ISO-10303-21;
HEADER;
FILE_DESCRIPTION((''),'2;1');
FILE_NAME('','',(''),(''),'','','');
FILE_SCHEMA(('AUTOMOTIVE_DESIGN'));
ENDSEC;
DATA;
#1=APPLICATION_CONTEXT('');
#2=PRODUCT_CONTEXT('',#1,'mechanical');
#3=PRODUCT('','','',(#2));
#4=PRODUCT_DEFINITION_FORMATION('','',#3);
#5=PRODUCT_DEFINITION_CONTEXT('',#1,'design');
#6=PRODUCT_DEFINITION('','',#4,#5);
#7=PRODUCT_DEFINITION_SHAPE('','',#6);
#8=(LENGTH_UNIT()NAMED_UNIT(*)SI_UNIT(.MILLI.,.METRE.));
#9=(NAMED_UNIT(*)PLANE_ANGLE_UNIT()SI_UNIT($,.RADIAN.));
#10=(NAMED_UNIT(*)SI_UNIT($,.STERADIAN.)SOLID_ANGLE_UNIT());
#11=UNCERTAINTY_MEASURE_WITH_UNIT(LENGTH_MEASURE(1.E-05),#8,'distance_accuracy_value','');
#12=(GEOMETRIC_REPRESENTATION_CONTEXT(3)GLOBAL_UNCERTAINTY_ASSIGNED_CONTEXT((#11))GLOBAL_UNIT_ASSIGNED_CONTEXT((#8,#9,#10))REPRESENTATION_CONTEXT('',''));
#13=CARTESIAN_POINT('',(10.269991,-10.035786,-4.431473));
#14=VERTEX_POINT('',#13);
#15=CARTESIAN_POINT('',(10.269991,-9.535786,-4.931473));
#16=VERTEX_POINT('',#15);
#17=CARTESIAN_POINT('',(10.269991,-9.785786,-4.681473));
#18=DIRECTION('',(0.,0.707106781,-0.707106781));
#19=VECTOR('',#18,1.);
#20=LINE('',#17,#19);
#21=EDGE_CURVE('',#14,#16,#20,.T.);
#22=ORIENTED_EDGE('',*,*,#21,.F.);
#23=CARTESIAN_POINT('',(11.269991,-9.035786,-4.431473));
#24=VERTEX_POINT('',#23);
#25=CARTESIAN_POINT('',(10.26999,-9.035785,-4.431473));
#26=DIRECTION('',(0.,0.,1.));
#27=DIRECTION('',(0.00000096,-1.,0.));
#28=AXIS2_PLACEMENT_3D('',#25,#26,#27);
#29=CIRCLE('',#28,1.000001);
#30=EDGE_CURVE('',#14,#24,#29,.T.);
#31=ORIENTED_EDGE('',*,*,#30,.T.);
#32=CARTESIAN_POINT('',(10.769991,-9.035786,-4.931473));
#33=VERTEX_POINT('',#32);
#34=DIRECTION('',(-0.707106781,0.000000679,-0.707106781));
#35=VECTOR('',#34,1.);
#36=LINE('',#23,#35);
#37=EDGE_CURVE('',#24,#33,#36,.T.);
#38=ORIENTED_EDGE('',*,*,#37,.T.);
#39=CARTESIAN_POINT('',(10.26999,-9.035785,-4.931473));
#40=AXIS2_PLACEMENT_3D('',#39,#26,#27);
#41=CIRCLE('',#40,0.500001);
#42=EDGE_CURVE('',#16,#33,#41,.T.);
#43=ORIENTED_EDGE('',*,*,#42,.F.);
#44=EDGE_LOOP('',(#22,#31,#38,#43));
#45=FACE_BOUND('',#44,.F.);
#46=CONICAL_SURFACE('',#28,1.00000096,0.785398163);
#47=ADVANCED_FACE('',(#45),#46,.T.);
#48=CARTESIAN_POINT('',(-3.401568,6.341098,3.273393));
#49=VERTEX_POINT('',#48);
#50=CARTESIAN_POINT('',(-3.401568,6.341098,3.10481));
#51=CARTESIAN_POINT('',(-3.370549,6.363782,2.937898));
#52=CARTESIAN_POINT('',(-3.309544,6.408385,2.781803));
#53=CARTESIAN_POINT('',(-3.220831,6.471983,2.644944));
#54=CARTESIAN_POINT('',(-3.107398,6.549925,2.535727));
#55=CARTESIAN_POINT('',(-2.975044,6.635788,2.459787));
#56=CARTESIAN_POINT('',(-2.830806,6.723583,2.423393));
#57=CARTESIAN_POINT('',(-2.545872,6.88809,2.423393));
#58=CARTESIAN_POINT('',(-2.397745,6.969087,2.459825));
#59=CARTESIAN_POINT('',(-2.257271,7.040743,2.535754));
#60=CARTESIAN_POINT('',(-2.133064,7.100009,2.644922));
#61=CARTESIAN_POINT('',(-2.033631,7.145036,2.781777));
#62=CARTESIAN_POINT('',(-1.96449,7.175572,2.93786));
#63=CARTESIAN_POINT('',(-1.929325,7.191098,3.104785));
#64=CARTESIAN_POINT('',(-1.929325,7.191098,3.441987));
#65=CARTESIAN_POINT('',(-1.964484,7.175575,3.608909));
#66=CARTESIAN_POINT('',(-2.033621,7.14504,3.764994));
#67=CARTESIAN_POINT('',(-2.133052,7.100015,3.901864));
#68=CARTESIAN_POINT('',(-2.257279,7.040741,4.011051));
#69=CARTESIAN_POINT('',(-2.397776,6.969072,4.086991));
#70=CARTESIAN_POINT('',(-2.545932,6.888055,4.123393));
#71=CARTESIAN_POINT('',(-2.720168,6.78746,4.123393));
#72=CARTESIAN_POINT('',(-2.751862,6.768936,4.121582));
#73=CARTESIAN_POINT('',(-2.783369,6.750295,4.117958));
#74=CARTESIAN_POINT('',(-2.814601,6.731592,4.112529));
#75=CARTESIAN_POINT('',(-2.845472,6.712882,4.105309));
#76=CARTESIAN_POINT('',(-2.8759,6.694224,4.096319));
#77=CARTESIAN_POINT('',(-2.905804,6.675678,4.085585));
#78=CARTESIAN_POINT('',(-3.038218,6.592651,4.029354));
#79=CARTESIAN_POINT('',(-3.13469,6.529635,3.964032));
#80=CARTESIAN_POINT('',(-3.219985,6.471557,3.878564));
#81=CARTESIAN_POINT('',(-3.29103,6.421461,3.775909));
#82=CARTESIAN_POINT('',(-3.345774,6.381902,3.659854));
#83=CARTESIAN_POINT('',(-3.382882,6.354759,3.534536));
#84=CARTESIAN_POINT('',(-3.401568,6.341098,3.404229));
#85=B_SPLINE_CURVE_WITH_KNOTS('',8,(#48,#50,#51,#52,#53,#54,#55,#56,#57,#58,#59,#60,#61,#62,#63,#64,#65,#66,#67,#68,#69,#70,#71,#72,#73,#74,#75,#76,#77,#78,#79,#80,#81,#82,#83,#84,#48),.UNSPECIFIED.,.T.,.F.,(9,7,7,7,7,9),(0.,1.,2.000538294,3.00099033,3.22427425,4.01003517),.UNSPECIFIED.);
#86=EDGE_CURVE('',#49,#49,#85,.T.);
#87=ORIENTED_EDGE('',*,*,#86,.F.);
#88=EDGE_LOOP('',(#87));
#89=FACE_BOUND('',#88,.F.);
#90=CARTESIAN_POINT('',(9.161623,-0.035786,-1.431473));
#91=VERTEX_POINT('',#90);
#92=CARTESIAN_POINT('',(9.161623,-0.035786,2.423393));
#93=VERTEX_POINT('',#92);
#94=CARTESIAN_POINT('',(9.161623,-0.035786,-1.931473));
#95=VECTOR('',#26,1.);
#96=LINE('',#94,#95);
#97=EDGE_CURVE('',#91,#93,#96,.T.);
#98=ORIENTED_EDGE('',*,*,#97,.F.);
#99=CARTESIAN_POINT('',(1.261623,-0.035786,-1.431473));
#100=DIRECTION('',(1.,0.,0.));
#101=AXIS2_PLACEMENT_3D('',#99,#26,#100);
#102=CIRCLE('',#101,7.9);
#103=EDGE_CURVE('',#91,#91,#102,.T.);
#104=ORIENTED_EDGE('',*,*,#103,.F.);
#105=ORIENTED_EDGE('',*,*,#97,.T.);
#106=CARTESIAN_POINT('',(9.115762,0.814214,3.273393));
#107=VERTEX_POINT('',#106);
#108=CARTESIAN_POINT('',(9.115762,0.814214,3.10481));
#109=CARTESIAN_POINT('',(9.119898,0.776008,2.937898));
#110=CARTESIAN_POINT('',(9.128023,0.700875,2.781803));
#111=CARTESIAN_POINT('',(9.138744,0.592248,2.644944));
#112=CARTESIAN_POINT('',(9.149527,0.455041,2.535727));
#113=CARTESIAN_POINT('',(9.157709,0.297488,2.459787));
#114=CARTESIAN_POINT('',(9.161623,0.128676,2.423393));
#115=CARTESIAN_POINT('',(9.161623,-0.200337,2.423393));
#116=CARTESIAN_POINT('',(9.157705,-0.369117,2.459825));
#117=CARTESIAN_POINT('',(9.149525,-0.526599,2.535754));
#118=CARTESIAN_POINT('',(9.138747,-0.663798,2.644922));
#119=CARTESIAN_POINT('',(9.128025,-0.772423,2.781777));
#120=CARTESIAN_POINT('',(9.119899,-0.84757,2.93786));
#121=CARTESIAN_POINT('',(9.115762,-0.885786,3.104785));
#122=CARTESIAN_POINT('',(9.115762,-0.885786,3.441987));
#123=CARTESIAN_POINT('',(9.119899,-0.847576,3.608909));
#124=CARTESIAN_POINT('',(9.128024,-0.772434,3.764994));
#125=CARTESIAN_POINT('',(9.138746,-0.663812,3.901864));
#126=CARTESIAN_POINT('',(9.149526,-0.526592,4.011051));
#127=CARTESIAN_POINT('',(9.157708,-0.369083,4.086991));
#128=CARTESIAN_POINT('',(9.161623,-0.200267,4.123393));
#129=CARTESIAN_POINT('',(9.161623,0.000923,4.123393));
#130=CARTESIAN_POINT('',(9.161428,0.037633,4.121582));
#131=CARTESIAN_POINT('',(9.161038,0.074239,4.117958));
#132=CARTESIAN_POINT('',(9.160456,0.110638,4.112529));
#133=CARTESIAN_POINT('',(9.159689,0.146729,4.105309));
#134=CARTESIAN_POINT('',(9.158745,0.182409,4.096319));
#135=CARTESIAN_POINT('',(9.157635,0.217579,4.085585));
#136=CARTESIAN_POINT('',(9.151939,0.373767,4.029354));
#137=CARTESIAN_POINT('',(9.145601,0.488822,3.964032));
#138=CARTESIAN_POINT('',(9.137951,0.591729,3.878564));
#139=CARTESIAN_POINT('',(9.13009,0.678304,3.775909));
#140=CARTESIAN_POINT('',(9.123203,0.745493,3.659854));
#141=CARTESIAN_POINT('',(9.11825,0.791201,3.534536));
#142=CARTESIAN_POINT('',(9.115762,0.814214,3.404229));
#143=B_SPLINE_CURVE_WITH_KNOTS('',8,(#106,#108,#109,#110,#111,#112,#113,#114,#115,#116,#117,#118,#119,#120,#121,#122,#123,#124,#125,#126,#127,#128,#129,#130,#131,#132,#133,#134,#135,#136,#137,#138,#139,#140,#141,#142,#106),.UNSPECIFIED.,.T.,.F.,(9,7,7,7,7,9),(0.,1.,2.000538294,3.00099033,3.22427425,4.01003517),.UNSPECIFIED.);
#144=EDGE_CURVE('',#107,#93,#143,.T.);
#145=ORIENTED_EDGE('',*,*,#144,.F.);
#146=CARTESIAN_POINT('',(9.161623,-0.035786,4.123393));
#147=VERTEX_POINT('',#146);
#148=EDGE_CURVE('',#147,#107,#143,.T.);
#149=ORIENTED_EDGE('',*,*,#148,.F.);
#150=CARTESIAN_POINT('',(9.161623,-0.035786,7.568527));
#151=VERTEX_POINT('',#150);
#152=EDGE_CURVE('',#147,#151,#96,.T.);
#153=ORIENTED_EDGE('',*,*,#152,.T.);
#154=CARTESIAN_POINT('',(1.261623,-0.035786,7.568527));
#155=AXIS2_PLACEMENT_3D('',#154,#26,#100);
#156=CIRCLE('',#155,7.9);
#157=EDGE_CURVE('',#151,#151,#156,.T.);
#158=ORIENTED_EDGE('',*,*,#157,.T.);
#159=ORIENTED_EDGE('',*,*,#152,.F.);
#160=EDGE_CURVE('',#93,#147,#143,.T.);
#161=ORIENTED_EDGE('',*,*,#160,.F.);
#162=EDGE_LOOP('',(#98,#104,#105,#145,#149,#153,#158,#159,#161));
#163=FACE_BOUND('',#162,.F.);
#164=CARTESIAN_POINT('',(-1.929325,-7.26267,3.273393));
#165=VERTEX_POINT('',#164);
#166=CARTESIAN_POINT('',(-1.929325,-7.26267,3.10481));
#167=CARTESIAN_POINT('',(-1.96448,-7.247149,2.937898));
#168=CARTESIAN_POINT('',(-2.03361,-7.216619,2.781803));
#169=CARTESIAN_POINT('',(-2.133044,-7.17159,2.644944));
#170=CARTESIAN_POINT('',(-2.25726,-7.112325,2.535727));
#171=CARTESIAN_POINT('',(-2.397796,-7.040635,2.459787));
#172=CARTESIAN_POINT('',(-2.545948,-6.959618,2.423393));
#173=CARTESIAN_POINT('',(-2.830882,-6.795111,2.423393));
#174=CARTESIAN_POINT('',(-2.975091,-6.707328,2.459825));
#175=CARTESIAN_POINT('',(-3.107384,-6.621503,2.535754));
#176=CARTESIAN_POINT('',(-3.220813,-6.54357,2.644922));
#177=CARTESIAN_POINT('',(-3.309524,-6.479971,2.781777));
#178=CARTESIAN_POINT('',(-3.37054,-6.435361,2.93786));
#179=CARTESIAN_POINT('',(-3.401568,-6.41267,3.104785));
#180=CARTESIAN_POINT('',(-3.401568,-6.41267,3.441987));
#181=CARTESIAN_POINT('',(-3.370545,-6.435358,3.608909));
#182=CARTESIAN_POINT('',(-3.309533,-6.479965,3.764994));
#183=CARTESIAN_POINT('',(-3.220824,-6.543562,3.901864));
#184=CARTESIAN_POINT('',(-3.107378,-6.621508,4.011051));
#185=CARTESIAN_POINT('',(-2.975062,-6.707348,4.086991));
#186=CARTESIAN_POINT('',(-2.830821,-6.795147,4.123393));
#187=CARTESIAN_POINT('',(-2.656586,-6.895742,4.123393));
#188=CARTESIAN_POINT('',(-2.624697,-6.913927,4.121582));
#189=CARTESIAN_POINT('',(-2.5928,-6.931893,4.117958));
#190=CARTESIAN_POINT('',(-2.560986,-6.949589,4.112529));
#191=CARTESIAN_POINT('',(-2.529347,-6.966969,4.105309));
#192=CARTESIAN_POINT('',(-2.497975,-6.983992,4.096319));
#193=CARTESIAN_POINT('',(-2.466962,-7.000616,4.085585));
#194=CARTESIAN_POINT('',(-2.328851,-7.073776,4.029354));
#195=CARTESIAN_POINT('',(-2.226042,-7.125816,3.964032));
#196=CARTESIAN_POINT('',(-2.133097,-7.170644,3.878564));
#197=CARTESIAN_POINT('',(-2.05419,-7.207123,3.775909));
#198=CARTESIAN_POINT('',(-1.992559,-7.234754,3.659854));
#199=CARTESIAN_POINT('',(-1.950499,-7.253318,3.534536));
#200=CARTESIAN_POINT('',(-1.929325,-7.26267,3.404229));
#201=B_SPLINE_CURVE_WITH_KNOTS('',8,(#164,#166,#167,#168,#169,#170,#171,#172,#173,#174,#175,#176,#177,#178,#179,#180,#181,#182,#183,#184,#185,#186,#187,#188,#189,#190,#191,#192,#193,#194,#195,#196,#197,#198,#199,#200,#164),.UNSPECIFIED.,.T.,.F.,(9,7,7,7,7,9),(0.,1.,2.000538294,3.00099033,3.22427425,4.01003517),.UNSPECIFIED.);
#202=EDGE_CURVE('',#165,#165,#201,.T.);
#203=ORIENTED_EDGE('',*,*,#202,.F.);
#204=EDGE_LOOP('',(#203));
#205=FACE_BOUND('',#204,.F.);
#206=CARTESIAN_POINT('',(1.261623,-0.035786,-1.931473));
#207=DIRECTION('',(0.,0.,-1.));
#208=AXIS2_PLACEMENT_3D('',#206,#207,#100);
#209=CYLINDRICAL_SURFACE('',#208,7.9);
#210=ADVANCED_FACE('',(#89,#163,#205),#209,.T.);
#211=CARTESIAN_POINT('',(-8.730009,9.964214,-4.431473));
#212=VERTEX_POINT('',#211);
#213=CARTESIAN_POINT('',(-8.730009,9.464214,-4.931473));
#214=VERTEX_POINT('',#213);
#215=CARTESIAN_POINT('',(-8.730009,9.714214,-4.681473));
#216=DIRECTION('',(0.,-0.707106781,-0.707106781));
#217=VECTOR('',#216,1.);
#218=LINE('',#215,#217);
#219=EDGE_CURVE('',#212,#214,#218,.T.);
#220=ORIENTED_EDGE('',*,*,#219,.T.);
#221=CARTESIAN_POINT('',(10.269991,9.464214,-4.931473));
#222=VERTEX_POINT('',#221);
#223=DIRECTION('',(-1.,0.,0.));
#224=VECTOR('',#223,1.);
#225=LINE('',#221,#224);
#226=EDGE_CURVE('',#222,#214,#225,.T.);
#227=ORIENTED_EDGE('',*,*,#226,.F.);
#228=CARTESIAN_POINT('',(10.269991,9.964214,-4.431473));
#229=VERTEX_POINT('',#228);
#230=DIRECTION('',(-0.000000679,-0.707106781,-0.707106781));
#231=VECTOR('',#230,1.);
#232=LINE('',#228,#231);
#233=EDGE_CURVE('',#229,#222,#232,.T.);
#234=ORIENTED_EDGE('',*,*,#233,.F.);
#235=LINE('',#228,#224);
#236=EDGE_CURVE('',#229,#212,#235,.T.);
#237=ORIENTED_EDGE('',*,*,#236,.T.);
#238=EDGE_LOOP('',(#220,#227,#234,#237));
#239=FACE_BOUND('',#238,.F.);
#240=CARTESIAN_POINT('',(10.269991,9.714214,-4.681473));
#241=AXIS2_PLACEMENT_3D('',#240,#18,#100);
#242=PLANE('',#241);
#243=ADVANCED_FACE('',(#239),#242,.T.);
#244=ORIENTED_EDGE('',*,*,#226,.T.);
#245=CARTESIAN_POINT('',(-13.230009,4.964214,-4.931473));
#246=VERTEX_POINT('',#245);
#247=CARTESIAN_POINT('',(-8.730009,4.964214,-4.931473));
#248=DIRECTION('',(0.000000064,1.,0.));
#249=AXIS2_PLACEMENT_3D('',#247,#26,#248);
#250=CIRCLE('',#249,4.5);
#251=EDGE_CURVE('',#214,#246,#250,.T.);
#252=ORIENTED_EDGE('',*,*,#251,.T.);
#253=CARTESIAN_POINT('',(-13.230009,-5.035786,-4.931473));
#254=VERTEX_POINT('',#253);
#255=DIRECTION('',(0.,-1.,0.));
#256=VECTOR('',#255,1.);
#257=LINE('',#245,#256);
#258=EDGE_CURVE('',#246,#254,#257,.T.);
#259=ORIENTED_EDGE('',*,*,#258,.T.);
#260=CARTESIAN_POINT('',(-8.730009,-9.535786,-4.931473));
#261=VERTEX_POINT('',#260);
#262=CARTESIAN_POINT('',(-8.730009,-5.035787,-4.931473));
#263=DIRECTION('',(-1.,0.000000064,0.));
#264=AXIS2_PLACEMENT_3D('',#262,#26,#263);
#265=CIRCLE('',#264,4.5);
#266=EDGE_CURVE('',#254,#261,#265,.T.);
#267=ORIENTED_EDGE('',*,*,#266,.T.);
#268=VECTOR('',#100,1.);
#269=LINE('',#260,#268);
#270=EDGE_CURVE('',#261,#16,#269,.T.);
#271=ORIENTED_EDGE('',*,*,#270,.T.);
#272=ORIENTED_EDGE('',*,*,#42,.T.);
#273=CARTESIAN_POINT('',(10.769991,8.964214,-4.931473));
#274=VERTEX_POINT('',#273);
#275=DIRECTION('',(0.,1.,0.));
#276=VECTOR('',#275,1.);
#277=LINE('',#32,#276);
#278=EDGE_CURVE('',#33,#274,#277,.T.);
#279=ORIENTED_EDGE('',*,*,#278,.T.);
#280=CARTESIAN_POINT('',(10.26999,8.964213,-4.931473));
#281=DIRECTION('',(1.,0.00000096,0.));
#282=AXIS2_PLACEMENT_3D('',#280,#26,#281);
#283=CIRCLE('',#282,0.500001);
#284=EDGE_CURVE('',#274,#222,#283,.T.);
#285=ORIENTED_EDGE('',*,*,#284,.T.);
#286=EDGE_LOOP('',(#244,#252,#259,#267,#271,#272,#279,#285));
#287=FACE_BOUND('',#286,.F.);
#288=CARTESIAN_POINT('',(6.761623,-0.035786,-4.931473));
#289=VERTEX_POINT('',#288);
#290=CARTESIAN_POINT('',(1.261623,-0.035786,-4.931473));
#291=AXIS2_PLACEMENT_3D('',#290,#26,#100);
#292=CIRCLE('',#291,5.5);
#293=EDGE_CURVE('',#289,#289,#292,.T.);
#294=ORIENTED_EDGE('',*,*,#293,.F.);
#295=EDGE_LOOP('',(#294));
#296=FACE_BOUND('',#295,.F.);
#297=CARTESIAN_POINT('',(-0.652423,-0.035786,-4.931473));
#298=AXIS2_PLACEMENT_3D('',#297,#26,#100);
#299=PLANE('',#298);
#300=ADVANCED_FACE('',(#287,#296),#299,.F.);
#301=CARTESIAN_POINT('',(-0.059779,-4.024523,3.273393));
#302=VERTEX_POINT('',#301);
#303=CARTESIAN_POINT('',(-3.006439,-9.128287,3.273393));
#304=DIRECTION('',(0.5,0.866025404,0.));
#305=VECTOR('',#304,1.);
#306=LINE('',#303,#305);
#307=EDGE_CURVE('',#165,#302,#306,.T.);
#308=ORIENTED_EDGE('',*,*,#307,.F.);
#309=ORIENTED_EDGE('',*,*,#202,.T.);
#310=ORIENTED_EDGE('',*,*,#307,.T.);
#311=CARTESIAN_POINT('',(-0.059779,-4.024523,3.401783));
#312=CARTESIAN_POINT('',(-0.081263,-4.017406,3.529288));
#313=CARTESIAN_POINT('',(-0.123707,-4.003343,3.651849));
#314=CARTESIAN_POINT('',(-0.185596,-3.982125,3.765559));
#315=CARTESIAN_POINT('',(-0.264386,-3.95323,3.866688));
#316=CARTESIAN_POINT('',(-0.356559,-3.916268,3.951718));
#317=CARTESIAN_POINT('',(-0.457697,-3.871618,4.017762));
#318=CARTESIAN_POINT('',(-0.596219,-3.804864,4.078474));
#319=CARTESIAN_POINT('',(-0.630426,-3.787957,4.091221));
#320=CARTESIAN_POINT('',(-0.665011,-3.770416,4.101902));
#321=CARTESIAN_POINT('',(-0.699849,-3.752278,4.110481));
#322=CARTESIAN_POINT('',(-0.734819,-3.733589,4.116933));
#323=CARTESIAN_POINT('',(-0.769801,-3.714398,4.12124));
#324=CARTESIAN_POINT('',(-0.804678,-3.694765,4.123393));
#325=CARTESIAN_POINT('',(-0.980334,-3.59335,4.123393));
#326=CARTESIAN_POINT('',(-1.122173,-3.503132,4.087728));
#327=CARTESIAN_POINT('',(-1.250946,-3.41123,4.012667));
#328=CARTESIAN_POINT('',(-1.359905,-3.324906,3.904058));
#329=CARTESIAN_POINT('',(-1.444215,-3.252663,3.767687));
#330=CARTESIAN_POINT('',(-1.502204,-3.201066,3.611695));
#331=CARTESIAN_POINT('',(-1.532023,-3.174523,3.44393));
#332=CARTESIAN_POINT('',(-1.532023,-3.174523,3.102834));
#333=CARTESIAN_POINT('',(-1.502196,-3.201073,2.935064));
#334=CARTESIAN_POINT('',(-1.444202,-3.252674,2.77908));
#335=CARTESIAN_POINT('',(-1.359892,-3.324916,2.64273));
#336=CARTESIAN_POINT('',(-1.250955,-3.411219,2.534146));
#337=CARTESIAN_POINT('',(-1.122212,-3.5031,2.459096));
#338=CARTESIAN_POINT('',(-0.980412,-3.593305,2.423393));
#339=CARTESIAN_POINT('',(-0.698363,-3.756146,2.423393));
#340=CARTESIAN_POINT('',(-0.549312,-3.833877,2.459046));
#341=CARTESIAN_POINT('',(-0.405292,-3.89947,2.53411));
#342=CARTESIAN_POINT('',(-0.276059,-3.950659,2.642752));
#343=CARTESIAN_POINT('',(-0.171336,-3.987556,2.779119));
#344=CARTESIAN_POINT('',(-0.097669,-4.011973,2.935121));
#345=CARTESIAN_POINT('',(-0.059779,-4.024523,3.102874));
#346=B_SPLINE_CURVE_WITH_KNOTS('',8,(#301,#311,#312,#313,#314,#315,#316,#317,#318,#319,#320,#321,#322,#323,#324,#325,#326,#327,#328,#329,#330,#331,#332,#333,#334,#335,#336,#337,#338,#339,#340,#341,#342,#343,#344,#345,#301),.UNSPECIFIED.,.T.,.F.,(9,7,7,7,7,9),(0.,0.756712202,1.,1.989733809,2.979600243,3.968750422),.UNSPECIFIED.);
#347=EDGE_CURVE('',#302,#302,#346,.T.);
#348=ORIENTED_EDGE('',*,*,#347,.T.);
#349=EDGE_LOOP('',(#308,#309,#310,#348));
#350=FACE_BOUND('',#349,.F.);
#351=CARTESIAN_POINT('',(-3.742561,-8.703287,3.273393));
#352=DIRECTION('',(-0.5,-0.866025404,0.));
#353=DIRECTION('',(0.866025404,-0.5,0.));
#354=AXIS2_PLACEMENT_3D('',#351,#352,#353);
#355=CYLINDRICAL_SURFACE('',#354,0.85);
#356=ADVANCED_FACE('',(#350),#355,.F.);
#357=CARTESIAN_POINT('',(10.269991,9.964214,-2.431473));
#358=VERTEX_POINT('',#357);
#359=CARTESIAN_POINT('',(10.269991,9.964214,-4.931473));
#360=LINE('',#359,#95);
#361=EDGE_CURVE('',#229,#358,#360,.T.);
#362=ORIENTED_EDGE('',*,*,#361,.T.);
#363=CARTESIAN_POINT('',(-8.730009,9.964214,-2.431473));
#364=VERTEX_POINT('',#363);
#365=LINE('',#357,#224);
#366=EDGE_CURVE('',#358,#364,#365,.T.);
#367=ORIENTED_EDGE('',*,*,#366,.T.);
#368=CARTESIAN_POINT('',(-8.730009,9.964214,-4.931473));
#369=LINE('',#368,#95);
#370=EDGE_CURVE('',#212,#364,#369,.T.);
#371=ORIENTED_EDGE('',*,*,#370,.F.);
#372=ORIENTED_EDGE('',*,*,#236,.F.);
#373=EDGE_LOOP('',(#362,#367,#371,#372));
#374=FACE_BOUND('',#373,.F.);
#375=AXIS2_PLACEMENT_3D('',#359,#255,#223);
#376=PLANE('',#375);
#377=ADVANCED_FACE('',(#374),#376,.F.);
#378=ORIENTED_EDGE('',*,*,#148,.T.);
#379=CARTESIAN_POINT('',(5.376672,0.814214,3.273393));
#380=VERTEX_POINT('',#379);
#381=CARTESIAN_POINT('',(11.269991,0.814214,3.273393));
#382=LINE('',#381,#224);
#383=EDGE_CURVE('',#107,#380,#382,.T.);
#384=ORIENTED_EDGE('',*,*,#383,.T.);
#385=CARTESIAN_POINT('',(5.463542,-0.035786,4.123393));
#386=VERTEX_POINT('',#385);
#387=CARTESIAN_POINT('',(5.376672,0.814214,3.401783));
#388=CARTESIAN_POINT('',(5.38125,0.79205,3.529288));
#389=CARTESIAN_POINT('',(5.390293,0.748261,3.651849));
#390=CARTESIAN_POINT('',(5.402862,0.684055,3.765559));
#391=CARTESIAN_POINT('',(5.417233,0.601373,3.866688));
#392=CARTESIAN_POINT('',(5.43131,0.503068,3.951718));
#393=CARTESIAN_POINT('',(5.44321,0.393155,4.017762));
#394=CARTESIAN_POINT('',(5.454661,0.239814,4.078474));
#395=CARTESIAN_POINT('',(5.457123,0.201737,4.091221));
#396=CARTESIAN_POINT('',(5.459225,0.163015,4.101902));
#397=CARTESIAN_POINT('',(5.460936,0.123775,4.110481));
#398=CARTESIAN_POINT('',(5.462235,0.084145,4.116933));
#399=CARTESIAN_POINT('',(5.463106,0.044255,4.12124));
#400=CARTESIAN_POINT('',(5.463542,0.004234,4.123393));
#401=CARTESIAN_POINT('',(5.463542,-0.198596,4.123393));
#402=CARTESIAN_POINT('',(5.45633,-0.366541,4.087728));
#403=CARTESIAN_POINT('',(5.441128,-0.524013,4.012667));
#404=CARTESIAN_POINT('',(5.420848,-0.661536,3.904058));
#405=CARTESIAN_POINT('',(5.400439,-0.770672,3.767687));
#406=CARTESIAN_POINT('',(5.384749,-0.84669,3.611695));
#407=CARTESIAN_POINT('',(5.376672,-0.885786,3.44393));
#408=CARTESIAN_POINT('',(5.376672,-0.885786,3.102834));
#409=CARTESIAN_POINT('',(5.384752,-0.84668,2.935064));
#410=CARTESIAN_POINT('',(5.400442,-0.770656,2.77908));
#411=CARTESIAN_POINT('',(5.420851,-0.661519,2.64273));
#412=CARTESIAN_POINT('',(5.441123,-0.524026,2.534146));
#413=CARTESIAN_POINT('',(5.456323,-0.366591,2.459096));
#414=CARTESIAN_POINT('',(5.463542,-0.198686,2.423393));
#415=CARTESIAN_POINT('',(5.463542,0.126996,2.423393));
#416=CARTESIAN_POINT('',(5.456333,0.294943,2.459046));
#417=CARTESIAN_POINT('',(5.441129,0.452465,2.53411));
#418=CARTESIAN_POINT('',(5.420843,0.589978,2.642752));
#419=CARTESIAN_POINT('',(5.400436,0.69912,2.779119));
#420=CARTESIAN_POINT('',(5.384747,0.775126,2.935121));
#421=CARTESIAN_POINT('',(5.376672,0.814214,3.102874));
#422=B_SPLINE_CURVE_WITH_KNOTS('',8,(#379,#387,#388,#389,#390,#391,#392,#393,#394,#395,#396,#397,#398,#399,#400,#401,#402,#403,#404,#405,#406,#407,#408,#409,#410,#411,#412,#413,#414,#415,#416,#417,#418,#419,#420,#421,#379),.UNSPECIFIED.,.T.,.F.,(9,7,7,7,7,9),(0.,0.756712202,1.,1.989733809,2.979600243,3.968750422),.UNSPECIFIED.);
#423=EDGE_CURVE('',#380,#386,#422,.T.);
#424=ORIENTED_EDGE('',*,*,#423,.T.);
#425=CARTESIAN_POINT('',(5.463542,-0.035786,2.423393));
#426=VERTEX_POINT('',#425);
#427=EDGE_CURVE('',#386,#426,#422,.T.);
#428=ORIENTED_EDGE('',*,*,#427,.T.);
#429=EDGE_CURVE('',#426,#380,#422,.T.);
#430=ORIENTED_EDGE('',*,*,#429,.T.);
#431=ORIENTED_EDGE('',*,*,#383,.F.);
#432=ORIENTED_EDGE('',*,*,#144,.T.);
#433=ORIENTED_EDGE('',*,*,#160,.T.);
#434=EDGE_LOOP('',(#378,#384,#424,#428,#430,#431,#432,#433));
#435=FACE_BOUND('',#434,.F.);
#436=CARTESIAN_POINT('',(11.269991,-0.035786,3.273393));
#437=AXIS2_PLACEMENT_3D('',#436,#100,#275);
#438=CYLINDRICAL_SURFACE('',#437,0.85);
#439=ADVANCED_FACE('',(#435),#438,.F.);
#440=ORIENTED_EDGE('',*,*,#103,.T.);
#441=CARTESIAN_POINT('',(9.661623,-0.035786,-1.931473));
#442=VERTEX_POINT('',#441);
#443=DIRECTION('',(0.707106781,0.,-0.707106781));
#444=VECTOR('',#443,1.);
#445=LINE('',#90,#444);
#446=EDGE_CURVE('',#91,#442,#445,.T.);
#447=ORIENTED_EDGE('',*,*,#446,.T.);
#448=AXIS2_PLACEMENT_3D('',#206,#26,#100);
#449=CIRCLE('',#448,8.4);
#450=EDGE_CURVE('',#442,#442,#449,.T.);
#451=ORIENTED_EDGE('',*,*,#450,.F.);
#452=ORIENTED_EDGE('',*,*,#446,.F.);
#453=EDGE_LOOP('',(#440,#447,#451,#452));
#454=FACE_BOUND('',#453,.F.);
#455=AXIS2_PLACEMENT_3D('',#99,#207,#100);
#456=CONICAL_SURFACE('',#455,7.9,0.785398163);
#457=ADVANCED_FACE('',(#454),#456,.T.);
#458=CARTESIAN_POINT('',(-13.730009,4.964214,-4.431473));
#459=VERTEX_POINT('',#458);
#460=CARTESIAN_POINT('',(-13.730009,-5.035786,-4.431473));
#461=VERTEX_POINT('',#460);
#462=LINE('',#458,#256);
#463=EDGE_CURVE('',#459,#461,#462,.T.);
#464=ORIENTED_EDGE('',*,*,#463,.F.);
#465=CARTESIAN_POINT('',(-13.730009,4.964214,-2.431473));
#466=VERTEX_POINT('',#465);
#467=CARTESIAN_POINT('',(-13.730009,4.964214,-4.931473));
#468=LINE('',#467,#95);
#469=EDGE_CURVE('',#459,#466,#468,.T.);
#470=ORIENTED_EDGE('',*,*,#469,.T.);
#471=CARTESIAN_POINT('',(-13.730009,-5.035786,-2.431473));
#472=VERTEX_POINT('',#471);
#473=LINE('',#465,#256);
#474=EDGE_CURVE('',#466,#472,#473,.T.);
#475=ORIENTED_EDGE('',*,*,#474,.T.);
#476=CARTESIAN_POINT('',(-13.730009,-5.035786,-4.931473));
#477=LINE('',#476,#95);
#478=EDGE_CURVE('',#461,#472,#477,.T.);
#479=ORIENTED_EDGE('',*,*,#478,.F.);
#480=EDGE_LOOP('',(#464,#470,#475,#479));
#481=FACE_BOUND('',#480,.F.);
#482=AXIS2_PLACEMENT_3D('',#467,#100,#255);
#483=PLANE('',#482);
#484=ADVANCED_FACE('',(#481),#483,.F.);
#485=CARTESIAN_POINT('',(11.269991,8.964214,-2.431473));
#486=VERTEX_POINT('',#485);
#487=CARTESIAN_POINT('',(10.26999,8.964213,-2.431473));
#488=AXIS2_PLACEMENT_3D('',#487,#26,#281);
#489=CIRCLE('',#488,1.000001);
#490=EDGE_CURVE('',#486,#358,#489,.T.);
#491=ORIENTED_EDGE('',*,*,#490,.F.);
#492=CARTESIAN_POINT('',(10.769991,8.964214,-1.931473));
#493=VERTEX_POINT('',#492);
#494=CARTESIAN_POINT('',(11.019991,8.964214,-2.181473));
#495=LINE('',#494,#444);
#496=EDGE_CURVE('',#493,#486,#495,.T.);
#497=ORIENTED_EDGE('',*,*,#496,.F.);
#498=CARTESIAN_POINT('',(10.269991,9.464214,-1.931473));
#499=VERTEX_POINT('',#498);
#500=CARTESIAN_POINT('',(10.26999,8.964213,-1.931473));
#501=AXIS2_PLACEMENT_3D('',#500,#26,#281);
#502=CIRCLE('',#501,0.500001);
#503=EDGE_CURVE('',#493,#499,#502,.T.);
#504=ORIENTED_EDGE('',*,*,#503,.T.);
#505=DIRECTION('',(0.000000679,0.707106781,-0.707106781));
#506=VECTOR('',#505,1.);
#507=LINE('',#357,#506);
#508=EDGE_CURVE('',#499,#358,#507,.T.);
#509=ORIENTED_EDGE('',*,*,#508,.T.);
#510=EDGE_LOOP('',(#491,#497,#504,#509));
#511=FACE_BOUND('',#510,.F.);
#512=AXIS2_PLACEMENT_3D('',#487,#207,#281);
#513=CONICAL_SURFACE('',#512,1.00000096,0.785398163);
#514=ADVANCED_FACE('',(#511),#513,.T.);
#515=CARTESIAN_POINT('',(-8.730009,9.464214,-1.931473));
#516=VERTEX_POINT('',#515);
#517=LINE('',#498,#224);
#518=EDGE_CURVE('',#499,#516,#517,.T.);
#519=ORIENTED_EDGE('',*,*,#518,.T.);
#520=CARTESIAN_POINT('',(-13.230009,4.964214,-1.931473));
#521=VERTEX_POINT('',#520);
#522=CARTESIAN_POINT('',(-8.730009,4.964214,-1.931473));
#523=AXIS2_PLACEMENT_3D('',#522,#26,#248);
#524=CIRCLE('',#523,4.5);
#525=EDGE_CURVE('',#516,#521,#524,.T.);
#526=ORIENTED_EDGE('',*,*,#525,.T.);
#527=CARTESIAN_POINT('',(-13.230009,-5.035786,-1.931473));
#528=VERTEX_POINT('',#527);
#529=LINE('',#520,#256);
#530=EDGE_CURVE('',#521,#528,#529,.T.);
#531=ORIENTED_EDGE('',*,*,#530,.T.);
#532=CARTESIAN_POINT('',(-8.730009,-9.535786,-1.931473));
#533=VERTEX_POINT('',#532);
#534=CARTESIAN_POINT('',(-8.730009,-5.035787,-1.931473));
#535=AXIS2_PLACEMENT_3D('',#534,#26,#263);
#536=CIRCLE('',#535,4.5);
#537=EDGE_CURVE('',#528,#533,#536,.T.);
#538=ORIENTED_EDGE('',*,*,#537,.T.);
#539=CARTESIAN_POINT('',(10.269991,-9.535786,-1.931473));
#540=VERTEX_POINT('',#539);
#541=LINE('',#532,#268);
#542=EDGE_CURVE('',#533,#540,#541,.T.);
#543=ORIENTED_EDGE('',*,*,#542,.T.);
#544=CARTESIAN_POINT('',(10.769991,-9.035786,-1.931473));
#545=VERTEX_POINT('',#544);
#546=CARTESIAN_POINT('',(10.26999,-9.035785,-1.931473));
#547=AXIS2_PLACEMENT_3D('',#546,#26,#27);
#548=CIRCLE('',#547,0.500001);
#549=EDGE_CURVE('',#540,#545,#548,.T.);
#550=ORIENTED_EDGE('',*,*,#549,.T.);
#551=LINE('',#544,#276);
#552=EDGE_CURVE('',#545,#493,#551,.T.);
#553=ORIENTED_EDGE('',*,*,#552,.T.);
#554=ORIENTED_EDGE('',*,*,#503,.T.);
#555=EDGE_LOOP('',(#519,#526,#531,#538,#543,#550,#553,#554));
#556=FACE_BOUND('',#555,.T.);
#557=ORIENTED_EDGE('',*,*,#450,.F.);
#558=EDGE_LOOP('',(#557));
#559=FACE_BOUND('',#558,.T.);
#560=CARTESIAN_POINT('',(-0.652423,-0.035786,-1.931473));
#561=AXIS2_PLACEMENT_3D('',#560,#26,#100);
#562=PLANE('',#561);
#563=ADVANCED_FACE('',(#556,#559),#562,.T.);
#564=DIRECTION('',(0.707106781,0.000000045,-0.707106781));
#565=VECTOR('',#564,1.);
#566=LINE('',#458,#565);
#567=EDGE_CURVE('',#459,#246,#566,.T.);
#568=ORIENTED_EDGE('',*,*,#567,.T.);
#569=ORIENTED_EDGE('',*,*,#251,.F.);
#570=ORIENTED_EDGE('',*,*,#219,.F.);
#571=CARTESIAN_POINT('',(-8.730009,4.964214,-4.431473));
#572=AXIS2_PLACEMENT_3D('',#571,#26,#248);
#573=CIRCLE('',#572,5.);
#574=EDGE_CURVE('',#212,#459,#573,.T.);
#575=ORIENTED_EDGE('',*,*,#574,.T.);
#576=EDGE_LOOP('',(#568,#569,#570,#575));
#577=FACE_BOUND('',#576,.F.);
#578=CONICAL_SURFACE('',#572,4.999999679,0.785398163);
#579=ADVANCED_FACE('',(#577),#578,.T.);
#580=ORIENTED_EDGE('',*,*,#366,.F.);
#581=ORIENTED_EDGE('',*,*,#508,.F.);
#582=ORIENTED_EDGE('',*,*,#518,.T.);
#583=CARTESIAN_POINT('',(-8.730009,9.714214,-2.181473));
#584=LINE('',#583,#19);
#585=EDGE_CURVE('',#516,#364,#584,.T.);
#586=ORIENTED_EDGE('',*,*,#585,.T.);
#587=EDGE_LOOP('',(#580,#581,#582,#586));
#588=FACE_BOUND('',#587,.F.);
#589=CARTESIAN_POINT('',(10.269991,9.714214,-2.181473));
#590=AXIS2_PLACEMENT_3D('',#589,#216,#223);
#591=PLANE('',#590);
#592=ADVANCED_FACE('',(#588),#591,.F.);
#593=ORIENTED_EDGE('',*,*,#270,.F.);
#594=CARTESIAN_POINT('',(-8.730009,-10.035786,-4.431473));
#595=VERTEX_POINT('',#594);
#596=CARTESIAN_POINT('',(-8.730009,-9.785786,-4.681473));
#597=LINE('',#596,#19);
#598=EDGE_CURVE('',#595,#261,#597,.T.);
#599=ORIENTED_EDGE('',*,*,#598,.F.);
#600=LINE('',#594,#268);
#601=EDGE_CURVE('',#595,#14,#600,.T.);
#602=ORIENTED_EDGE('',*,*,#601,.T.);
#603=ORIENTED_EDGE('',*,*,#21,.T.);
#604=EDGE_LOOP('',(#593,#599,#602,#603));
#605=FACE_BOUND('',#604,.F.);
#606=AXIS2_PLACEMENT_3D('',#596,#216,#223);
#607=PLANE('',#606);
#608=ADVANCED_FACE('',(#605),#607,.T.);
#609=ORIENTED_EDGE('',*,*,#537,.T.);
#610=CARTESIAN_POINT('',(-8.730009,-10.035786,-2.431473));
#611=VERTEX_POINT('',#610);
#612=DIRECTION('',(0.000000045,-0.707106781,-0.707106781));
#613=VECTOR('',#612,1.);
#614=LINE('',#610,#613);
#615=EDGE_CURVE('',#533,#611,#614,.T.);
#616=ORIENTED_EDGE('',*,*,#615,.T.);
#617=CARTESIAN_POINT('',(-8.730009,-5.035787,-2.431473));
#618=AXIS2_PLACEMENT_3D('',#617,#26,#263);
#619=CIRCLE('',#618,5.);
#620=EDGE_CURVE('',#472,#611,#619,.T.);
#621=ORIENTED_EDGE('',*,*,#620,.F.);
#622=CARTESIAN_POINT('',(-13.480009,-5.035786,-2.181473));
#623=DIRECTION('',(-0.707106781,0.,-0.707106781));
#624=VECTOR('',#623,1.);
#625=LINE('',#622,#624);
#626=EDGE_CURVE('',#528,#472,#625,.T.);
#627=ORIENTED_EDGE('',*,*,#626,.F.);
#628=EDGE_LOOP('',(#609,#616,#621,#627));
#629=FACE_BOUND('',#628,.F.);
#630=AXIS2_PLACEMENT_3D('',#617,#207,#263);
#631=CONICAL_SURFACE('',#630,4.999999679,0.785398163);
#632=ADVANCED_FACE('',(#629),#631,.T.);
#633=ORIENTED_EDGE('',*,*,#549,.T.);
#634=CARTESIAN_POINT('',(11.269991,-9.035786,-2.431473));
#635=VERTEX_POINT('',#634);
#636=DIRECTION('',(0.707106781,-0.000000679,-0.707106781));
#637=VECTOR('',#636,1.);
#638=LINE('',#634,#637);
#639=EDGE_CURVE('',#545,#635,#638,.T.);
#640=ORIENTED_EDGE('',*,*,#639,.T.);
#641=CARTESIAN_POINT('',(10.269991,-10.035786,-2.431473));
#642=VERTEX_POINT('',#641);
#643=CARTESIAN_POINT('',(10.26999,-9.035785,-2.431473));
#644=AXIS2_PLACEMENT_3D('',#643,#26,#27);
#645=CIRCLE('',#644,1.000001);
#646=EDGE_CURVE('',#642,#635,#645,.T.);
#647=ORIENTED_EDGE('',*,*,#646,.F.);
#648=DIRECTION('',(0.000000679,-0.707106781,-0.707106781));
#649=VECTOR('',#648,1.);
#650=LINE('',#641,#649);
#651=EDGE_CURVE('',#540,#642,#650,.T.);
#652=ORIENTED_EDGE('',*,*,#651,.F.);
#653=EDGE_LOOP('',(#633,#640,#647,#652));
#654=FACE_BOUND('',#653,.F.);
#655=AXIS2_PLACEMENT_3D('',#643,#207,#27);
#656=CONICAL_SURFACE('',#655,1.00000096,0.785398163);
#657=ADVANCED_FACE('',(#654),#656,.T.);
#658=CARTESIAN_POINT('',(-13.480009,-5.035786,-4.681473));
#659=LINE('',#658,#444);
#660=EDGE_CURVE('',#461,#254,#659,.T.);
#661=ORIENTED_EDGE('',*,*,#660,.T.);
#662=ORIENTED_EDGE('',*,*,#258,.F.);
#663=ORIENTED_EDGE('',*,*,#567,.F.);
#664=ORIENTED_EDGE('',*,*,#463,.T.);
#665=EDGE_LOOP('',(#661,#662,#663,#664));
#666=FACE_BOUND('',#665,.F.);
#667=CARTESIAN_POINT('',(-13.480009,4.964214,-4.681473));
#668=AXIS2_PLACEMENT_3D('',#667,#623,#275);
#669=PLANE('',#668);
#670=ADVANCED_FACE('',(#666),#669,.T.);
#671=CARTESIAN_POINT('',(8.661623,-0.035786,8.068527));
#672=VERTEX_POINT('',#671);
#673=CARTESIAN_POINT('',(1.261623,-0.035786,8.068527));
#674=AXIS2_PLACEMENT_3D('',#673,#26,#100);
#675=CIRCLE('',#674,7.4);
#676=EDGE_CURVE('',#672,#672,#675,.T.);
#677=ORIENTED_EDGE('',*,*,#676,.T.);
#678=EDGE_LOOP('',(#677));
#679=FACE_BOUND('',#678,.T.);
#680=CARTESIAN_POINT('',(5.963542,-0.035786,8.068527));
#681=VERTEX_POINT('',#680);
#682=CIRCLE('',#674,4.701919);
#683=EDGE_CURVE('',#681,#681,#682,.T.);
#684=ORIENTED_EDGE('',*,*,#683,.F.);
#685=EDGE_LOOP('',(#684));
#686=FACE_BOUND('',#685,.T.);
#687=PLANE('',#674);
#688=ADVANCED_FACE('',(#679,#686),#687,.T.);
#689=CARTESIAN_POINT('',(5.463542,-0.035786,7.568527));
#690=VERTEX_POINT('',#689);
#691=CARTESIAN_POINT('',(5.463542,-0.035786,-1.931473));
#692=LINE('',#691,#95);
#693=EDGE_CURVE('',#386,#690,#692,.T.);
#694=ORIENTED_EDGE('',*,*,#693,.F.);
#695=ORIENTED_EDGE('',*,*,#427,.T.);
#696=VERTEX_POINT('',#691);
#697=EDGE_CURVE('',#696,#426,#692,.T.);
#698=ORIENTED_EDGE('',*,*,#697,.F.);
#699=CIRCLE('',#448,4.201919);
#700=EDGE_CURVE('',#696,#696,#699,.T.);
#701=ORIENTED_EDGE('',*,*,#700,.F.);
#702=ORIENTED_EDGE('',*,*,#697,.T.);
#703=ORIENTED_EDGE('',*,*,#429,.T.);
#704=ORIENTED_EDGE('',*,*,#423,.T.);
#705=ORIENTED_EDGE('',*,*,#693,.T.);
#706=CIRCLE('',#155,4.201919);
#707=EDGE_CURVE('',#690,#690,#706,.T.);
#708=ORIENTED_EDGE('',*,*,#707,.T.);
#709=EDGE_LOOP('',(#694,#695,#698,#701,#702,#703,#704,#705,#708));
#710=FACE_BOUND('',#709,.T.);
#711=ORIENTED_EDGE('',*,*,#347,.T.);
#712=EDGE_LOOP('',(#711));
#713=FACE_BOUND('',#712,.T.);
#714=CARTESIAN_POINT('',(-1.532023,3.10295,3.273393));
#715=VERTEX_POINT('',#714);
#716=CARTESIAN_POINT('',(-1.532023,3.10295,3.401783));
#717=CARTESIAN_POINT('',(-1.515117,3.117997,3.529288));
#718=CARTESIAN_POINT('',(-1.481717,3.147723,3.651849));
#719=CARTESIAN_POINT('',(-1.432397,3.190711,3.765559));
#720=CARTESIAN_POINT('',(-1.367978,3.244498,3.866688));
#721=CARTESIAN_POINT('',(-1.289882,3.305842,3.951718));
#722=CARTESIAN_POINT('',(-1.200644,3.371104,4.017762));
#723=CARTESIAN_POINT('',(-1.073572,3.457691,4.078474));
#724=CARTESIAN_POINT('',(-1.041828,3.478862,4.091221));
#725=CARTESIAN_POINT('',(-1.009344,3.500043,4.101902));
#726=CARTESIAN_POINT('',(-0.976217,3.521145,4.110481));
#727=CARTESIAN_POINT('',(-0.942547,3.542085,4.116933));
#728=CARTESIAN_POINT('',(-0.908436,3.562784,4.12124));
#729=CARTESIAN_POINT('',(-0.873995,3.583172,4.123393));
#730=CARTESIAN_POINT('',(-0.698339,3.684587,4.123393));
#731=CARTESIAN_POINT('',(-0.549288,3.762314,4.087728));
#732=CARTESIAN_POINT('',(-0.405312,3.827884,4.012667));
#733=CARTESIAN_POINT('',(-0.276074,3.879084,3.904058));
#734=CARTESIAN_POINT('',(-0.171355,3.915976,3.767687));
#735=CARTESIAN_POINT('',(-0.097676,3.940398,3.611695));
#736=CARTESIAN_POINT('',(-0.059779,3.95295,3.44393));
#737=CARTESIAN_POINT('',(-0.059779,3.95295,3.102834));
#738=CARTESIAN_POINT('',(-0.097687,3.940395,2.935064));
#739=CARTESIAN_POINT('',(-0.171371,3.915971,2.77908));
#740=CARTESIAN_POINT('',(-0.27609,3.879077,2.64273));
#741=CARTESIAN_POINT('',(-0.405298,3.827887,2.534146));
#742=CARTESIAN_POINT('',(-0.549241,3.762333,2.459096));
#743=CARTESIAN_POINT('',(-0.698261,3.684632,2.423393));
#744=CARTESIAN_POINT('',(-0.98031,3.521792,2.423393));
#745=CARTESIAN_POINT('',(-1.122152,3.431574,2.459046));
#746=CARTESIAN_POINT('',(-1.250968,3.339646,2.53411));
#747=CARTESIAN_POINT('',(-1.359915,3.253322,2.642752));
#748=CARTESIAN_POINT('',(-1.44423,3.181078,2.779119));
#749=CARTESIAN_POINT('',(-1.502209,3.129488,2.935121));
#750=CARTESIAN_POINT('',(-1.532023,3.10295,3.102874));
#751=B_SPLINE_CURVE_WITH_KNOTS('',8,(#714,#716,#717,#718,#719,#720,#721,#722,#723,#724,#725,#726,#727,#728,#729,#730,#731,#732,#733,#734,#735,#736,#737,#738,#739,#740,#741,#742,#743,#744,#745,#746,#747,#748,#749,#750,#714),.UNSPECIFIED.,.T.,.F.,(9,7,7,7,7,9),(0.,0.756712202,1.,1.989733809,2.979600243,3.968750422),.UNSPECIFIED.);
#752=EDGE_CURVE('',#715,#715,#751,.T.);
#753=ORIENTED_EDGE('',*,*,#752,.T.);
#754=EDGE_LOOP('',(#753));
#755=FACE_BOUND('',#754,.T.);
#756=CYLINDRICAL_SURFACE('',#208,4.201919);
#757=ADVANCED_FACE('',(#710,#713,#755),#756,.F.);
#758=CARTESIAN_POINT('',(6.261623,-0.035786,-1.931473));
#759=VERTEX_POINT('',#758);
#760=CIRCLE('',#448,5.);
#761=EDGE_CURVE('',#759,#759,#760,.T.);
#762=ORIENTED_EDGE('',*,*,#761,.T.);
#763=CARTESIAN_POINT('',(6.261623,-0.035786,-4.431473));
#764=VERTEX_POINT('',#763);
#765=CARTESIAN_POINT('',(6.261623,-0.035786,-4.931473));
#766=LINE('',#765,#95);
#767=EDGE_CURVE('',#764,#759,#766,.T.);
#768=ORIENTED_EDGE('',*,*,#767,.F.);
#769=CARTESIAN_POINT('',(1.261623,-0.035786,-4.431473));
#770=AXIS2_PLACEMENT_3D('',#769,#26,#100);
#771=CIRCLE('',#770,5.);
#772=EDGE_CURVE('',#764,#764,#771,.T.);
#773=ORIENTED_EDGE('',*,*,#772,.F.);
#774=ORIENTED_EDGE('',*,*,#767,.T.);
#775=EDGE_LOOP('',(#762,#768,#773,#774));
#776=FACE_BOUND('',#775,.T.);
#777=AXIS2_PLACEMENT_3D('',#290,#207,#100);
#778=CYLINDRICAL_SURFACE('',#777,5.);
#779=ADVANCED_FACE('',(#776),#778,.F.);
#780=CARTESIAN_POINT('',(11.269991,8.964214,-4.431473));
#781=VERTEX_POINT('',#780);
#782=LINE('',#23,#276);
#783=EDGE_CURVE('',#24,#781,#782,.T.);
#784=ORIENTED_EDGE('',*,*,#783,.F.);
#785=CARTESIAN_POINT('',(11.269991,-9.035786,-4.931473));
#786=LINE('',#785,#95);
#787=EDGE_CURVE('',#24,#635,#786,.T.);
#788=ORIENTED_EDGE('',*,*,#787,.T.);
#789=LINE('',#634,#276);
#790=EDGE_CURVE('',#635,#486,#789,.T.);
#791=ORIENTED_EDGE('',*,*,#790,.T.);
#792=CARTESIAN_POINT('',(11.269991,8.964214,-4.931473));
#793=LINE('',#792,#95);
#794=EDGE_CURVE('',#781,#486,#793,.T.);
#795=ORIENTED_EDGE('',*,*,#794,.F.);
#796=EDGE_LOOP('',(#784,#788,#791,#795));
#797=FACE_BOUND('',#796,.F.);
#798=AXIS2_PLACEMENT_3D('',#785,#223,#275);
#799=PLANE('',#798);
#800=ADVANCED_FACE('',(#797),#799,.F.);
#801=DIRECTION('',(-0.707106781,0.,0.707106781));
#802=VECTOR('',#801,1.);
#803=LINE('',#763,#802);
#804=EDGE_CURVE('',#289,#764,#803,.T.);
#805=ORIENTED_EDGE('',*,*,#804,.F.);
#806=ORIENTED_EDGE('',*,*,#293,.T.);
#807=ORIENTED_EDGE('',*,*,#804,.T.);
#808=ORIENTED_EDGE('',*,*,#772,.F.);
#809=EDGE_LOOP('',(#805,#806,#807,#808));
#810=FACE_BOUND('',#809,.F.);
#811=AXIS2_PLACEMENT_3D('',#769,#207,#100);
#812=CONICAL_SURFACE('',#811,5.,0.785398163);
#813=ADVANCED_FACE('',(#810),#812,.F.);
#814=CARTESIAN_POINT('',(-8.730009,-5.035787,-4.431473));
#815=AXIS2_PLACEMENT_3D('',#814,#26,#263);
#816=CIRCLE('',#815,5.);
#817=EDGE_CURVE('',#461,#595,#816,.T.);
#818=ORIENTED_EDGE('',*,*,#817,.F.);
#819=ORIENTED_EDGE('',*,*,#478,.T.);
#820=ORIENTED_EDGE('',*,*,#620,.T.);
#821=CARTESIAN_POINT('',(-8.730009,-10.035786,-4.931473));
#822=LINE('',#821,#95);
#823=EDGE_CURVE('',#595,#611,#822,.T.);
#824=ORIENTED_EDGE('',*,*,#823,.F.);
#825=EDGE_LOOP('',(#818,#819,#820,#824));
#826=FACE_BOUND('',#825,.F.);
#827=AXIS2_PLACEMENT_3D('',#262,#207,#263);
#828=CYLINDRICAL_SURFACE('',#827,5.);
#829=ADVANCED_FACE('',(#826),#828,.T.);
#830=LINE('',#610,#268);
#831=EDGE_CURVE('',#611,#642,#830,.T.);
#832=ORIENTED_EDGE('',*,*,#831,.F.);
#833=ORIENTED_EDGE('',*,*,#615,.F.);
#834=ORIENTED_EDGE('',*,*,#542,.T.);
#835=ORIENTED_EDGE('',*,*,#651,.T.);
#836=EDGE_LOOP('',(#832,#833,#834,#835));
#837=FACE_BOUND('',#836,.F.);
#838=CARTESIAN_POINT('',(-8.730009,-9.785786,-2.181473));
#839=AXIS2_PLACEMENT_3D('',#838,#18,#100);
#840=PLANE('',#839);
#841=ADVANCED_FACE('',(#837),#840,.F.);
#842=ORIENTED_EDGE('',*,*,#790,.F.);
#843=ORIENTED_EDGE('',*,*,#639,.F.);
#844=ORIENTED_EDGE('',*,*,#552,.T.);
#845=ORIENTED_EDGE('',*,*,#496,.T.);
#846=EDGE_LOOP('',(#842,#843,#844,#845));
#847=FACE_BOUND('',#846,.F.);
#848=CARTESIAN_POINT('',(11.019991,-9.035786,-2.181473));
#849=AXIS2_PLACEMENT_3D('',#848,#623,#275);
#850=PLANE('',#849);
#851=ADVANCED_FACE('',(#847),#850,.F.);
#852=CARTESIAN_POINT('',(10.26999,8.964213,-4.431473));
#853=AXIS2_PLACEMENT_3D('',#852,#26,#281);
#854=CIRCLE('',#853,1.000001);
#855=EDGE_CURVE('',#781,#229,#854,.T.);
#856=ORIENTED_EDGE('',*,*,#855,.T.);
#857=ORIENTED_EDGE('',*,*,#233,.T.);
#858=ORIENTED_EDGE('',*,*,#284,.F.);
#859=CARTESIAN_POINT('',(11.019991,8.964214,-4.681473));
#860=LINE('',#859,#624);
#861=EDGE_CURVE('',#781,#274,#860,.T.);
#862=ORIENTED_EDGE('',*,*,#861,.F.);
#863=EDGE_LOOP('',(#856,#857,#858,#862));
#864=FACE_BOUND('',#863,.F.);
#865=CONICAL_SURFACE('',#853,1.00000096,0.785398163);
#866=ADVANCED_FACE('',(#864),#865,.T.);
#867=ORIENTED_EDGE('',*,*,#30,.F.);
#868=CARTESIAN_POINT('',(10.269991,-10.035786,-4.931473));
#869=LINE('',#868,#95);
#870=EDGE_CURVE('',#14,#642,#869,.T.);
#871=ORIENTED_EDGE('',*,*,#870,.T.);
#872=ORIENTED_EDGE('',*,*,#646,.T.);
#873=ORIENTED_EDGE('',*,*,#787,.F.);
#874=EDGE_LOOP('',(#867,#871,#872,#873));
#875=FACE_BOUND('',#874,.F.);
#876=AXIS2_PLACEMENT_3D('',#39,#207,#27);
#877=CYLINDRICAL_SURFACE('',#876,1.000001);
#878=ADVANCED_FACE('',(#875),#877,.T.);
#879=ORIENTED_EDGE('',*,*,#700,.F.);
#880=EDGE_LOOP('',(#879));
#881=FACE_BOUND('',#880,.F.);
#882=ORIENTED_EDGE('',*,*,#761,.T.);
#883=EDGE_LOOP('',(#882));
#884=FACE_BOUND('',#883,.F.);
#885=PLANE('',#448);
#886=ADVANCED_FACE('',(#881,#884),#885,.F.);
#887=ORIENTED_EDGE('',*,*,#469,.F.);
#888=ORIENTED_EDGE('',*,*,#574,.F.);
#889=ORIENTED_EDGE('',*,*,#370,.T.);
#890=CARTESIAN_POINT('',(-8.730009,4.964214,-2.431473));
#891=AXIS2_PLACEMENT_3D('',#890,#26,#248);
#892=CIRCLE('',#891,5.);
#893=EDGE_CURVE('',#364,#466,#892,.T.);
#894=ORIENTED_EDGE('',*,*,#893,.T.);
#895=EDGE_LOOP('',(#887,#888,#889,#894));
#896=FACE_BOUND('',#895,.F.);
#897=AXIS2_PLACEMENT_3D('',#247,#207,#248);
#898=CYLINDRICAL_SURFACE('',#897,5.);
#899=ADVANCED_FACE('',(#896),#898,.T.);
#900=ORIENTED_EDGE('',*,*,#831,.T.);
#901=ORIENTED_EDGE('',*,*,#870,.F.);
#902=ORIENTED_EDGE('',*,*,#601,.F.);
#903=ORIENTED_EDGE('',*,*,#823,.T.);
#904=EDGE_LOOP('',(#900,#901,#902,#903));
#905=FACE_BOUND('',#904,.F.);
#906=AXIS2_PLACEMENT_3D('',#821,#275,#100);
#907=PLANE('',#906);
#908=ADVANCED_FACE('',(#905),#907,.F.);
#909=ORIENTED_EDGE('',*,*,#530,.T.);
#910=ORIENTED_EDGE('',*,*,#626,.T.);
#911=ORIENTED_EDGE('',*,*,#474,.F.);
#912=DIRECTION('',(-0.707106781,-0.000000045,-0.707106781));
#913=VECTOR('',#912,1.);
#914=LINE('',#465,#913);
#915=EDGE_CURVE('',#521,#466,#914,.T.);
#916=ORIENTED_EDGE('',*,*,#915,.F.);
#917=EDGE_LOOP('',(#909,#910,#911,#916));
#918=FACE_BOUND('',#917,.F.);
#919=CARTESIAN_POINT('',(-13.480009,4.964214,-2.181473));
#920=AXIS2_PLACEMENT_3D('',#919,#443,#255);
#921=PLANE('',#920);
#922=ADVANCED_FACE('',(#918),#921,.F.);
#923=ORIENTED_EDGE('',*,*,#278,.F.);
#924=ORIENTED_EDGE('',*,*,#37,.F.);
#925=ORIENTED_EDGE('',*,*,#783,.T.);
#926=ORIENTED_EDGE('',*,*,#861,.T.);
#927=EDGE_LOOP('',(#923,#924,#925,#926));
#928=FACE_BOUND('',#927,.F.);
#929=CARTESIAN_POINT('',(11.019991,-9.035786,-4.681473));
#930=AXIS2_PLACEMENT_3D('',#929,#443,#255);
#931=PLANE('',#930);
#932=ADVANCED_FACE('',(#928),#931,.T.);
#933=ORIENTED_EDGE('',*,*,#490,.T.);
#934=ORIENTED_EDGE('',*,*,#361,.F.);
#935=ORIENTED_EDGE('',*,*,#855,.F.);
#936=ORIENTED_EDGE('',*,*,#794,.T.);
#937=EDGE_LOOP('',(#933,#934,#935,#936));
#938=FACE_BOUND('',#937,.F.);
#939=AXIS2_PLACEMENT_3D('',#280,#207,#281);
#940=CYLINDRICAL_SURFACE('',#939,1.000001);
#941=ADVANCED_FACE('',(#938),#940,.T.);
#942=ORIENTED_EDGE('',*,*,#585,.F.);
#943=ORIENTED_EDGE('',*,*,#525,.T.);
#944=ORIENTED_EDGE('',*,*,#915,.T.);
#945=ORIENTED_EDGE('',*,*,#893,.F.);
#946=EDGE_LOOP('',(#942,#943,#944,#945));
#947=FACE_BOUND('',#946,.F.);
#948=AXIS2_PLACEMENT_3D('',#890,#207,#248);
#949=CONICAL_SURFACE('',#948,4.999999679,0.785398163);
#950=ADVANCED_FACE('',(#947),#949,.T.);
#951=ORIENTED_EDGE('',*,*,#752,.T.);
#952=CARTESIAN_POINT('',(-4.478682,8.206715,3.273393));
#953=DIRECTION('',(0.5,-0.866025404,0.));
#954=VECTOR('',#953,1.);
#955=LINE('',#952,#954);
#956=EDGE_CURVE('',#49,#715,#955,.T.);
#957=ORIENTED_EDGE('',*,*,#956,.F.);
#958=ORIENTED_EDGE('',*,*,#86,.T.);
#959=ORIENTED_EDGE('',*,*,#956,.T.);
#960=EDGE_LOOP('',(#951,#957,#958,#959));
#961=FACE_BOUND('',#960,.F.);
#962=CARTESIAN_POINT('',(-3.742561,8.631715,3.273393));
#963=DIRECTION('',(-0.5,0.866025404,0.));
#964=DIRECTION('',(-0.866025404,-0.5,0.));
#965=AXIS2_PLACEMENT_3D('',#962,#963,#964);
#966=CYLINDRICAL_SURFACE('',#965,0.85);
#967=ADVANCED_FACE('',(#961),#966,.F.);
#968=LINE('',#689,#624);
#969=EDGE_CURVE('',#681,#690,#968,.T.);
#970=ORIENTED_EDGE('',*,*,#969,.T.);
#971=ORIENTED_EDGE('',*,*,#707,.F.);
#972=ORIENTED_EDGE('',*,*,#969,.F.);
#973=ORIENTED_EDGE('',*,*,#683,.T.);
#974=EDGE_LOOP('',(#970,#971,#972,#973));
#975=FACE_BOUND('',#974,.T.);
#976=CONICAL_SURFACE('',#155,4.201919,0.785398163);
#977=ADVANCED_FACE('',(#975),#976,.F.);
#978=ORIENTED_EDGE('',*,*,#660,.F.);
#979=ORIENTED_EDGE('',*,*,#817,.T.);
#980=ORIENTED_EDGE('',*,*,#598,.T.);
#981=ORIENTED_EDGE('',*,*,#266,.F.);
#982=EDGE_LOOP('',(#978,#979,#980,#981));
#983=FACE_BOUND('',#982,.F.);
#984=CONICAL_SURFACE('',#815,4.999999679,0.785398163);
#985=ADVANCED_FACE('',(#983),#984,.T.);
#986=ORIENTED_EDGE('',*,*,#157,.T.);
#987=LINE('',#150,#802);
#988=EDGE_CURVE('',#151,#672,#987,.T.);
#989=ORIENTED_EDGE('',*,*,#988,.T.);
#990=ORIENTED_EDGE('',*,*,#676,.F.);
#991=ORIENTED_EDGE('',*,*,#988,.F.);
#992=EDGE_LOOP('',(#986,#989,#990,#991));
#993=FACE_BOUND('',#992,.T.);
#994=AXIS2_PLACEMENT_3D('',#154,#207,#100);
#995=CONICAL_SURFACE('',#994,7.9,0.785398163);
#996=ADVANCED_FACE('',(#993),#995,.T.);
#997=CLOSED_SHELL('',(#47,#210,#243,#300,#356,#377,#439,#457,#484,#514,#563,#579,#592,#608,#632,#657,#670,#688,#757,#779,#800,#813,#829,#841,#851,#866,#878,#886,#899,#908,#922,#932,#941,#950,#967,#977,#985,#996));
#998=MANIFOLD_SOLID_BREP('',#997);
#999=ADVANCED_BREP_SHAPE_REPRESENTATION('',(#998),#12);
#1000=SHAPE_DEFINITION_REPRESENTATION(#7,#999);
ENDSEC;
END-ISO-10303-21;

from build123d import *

# Parameters (mm, degrees)
SKETCH1_R                      = 0.005
BOSS_EXTRUDE1_DEPTH            = 0.003
SKETCH2_R                      = 0.0079
SKETCH2_R_2                    = 0.004201919
BOSS_EXTRUDE3_DEPTH            = 0.01
CHAMFER1_SIZE                  = 0.0005
CUT_EXTRUDE1_REACH             = 2.054
SKETCH3_R                      = 0.00085
CUT_EXTRUDE1_DIRECTION_2_DEPTH = 1.053763073
CIRPATTERN1_COUNT              = 3
SCALE1_SCALE                   = 1000


with BuildPart() as part:
    # Sketch1 → Boss-Extrude1 (new body)
    with BuildSketch(Plane.XY):
        with BuildLine():
            Line((0.009008368, -0.025787204), (-0.009991632, -0.025787204))
            ThreePointArc((-0.009991632, -0.025787204), (-0.013527166, -0.02725167), (-0.014991632, -0.030787204))
            Line((-0.014991632, -0.030787204), (-0.014991632, -0.040787204))
            ThreePointArc((-0.014991632, -0.040787204), (-0.013527166, -0.044322738), (-0.009991632, -0.045787204))
            Line((-0.009991632, -0.045787204), (0.009008368, -0.045787204))
            ThreePointArc((0.009008368, -0.045787204), (0.009715474, -0.045494311), (0.010008368, -0.044787204))
            Line((0.010008368, -0.044787204), (0.010008368, -0.026787204))
            ThreePointArc((0.010008368, -0.026787204), (0.009715474, -0.026080097), (0.009008368, -0.025787204))
        make_face()
        with Locations((0, -0.035787204)):
            Circle(SKETCH1_R, mode=Mode.SUBTRACT)
    extrude(amount=BOSS_EXTRUDE1_DEPTH)

    # Sketch2 → Boss-Extrude3 (add)
    with BuildSketch(Plane.XY.offset(0.003)):
        with Locations((0, -0.035787204)):
            Circle(SKETCH2_R)
        with Locations((0, -0.035787204)):
            Circle(SKETCH2_R_2, mode=Mode.SUBTRACT)
    extrude(amount=BOSS_EXTRUDE3_DEPTH)

    # Chamfer1
    chamfer1_edges = [part.edges().sort_by_distance(p)[0] for p in [
        (-0.000491632, -0.045787204, 0),
        (-0.013527166, -0.044322738, 0),
        (-0.014991632, -0.035787204, 0),
        (0.009715474, -0.045494311, 0.003),
        (-0.013527166, -0.02725167, 0),
        (-0.000491632, -0.025787204, 0),
        (0.009715474, -0.026080097, 0),
        (0.010008368, -0.035787204, 0),
        (0.009715474, -0.045494311, 0),
        (-0.005, -0.035787204, 0),
        (0.010008368, -0.035787204, 0.003),
        (0.009715474, -0.026080097, 0.003),
        (-0.000491632, -0.025787204, 0.003),
        (-0.0079, -0.035787204, 0.003),
        (-0.013527166, -0.02725167, 0.003),
        (-0.0079, -0.035787204, 0.013),
        (-0.004201919, -0.035787204, 0.013),
        (-0.014991632, -0.035787204, 0.003),
        (-0.013527166, -0.044322738, 0.003),
        (-0.000491632, -0.045787204, 0.003),
    ]]
    chamfer(chamfer1_edges, length=CHAMFER1_SIZE)

    # Sketch3 → Cut-Extrude1 (cut, up to next)
    with BuildSketch(Plane(origin=(0.010008368, 0, 0), x_dir=(0, 0, -1), z_dir=(1, 0, 0)), mode=Mode.PRIVATE) as cut_extrude1_sk1:
        with Locations(Location((-0.008204866, -0.035787204, 0), (0, 0, 90))):
            Circle(SKETCH3_R)
    cut_extrude1_tool1 = extrude(cut_extrude1_sk1.sketch, amount=-CUT_EXTRUDE1_REACH, mode=Mode.PRIVATE) & part.part
    cut_extrude1 = cut_extrude1_tool1.solids().sort_by_distance((0.010008, -0.035787, 0.008205))[0]
    add(cut_extrude1, mode=Mode.SUBTRACT)

    # Sketch3 → Cut-Extrude1 direction 2 (cut)
    with BuildSketch(Plane(origin=(0.010008368, 0, 0), x_dir=(0, 0, -1), z_dir=(1, 0, 0))):
        with Locations(Location((-0.008204866, -0.035787204, 0), (0, 0, 90))):
            Circle(SKETCH3_R)
    cut_extrude1_direction_2 = extrude(amount=CUT_EXTRUDE1_DIRECTION_2_DEPTH, mode=Mode.SUBTRACT)

    # CirPattern1: Cut-Extrude1, Cut-Extrude1 direction 2 ×3 about axis
    cirpattern1_axis = Axis((0, -0.035787204, 0.0125), (0, 0, 1))
    add([cut_extrude1.rotate(cirpattern1_axis, i * 360 / CIRPATTERN1_COUNT) for i in range(1, CIRPATTERN1_COUNT)], mode=Mode.SUBTRACT)
    add([cut_extrude1_direction_2.rotate(cirpattern1_axis, i * 360 / CIRPATTERN1_COUNT) for i in range(1, CIRPATTERN1_COUNT)], mode=Mode.SUBTRACT)


with BuildPart() as part_1:
    # Scale1: scaled about (-0.001262886, -0.035787205, 0.004936409)
    add(part.part.scale(SCALE1_SCALE).moved(Location((1.261623114, 35.751417795, -4.931472591))))


solid = part_1.part
